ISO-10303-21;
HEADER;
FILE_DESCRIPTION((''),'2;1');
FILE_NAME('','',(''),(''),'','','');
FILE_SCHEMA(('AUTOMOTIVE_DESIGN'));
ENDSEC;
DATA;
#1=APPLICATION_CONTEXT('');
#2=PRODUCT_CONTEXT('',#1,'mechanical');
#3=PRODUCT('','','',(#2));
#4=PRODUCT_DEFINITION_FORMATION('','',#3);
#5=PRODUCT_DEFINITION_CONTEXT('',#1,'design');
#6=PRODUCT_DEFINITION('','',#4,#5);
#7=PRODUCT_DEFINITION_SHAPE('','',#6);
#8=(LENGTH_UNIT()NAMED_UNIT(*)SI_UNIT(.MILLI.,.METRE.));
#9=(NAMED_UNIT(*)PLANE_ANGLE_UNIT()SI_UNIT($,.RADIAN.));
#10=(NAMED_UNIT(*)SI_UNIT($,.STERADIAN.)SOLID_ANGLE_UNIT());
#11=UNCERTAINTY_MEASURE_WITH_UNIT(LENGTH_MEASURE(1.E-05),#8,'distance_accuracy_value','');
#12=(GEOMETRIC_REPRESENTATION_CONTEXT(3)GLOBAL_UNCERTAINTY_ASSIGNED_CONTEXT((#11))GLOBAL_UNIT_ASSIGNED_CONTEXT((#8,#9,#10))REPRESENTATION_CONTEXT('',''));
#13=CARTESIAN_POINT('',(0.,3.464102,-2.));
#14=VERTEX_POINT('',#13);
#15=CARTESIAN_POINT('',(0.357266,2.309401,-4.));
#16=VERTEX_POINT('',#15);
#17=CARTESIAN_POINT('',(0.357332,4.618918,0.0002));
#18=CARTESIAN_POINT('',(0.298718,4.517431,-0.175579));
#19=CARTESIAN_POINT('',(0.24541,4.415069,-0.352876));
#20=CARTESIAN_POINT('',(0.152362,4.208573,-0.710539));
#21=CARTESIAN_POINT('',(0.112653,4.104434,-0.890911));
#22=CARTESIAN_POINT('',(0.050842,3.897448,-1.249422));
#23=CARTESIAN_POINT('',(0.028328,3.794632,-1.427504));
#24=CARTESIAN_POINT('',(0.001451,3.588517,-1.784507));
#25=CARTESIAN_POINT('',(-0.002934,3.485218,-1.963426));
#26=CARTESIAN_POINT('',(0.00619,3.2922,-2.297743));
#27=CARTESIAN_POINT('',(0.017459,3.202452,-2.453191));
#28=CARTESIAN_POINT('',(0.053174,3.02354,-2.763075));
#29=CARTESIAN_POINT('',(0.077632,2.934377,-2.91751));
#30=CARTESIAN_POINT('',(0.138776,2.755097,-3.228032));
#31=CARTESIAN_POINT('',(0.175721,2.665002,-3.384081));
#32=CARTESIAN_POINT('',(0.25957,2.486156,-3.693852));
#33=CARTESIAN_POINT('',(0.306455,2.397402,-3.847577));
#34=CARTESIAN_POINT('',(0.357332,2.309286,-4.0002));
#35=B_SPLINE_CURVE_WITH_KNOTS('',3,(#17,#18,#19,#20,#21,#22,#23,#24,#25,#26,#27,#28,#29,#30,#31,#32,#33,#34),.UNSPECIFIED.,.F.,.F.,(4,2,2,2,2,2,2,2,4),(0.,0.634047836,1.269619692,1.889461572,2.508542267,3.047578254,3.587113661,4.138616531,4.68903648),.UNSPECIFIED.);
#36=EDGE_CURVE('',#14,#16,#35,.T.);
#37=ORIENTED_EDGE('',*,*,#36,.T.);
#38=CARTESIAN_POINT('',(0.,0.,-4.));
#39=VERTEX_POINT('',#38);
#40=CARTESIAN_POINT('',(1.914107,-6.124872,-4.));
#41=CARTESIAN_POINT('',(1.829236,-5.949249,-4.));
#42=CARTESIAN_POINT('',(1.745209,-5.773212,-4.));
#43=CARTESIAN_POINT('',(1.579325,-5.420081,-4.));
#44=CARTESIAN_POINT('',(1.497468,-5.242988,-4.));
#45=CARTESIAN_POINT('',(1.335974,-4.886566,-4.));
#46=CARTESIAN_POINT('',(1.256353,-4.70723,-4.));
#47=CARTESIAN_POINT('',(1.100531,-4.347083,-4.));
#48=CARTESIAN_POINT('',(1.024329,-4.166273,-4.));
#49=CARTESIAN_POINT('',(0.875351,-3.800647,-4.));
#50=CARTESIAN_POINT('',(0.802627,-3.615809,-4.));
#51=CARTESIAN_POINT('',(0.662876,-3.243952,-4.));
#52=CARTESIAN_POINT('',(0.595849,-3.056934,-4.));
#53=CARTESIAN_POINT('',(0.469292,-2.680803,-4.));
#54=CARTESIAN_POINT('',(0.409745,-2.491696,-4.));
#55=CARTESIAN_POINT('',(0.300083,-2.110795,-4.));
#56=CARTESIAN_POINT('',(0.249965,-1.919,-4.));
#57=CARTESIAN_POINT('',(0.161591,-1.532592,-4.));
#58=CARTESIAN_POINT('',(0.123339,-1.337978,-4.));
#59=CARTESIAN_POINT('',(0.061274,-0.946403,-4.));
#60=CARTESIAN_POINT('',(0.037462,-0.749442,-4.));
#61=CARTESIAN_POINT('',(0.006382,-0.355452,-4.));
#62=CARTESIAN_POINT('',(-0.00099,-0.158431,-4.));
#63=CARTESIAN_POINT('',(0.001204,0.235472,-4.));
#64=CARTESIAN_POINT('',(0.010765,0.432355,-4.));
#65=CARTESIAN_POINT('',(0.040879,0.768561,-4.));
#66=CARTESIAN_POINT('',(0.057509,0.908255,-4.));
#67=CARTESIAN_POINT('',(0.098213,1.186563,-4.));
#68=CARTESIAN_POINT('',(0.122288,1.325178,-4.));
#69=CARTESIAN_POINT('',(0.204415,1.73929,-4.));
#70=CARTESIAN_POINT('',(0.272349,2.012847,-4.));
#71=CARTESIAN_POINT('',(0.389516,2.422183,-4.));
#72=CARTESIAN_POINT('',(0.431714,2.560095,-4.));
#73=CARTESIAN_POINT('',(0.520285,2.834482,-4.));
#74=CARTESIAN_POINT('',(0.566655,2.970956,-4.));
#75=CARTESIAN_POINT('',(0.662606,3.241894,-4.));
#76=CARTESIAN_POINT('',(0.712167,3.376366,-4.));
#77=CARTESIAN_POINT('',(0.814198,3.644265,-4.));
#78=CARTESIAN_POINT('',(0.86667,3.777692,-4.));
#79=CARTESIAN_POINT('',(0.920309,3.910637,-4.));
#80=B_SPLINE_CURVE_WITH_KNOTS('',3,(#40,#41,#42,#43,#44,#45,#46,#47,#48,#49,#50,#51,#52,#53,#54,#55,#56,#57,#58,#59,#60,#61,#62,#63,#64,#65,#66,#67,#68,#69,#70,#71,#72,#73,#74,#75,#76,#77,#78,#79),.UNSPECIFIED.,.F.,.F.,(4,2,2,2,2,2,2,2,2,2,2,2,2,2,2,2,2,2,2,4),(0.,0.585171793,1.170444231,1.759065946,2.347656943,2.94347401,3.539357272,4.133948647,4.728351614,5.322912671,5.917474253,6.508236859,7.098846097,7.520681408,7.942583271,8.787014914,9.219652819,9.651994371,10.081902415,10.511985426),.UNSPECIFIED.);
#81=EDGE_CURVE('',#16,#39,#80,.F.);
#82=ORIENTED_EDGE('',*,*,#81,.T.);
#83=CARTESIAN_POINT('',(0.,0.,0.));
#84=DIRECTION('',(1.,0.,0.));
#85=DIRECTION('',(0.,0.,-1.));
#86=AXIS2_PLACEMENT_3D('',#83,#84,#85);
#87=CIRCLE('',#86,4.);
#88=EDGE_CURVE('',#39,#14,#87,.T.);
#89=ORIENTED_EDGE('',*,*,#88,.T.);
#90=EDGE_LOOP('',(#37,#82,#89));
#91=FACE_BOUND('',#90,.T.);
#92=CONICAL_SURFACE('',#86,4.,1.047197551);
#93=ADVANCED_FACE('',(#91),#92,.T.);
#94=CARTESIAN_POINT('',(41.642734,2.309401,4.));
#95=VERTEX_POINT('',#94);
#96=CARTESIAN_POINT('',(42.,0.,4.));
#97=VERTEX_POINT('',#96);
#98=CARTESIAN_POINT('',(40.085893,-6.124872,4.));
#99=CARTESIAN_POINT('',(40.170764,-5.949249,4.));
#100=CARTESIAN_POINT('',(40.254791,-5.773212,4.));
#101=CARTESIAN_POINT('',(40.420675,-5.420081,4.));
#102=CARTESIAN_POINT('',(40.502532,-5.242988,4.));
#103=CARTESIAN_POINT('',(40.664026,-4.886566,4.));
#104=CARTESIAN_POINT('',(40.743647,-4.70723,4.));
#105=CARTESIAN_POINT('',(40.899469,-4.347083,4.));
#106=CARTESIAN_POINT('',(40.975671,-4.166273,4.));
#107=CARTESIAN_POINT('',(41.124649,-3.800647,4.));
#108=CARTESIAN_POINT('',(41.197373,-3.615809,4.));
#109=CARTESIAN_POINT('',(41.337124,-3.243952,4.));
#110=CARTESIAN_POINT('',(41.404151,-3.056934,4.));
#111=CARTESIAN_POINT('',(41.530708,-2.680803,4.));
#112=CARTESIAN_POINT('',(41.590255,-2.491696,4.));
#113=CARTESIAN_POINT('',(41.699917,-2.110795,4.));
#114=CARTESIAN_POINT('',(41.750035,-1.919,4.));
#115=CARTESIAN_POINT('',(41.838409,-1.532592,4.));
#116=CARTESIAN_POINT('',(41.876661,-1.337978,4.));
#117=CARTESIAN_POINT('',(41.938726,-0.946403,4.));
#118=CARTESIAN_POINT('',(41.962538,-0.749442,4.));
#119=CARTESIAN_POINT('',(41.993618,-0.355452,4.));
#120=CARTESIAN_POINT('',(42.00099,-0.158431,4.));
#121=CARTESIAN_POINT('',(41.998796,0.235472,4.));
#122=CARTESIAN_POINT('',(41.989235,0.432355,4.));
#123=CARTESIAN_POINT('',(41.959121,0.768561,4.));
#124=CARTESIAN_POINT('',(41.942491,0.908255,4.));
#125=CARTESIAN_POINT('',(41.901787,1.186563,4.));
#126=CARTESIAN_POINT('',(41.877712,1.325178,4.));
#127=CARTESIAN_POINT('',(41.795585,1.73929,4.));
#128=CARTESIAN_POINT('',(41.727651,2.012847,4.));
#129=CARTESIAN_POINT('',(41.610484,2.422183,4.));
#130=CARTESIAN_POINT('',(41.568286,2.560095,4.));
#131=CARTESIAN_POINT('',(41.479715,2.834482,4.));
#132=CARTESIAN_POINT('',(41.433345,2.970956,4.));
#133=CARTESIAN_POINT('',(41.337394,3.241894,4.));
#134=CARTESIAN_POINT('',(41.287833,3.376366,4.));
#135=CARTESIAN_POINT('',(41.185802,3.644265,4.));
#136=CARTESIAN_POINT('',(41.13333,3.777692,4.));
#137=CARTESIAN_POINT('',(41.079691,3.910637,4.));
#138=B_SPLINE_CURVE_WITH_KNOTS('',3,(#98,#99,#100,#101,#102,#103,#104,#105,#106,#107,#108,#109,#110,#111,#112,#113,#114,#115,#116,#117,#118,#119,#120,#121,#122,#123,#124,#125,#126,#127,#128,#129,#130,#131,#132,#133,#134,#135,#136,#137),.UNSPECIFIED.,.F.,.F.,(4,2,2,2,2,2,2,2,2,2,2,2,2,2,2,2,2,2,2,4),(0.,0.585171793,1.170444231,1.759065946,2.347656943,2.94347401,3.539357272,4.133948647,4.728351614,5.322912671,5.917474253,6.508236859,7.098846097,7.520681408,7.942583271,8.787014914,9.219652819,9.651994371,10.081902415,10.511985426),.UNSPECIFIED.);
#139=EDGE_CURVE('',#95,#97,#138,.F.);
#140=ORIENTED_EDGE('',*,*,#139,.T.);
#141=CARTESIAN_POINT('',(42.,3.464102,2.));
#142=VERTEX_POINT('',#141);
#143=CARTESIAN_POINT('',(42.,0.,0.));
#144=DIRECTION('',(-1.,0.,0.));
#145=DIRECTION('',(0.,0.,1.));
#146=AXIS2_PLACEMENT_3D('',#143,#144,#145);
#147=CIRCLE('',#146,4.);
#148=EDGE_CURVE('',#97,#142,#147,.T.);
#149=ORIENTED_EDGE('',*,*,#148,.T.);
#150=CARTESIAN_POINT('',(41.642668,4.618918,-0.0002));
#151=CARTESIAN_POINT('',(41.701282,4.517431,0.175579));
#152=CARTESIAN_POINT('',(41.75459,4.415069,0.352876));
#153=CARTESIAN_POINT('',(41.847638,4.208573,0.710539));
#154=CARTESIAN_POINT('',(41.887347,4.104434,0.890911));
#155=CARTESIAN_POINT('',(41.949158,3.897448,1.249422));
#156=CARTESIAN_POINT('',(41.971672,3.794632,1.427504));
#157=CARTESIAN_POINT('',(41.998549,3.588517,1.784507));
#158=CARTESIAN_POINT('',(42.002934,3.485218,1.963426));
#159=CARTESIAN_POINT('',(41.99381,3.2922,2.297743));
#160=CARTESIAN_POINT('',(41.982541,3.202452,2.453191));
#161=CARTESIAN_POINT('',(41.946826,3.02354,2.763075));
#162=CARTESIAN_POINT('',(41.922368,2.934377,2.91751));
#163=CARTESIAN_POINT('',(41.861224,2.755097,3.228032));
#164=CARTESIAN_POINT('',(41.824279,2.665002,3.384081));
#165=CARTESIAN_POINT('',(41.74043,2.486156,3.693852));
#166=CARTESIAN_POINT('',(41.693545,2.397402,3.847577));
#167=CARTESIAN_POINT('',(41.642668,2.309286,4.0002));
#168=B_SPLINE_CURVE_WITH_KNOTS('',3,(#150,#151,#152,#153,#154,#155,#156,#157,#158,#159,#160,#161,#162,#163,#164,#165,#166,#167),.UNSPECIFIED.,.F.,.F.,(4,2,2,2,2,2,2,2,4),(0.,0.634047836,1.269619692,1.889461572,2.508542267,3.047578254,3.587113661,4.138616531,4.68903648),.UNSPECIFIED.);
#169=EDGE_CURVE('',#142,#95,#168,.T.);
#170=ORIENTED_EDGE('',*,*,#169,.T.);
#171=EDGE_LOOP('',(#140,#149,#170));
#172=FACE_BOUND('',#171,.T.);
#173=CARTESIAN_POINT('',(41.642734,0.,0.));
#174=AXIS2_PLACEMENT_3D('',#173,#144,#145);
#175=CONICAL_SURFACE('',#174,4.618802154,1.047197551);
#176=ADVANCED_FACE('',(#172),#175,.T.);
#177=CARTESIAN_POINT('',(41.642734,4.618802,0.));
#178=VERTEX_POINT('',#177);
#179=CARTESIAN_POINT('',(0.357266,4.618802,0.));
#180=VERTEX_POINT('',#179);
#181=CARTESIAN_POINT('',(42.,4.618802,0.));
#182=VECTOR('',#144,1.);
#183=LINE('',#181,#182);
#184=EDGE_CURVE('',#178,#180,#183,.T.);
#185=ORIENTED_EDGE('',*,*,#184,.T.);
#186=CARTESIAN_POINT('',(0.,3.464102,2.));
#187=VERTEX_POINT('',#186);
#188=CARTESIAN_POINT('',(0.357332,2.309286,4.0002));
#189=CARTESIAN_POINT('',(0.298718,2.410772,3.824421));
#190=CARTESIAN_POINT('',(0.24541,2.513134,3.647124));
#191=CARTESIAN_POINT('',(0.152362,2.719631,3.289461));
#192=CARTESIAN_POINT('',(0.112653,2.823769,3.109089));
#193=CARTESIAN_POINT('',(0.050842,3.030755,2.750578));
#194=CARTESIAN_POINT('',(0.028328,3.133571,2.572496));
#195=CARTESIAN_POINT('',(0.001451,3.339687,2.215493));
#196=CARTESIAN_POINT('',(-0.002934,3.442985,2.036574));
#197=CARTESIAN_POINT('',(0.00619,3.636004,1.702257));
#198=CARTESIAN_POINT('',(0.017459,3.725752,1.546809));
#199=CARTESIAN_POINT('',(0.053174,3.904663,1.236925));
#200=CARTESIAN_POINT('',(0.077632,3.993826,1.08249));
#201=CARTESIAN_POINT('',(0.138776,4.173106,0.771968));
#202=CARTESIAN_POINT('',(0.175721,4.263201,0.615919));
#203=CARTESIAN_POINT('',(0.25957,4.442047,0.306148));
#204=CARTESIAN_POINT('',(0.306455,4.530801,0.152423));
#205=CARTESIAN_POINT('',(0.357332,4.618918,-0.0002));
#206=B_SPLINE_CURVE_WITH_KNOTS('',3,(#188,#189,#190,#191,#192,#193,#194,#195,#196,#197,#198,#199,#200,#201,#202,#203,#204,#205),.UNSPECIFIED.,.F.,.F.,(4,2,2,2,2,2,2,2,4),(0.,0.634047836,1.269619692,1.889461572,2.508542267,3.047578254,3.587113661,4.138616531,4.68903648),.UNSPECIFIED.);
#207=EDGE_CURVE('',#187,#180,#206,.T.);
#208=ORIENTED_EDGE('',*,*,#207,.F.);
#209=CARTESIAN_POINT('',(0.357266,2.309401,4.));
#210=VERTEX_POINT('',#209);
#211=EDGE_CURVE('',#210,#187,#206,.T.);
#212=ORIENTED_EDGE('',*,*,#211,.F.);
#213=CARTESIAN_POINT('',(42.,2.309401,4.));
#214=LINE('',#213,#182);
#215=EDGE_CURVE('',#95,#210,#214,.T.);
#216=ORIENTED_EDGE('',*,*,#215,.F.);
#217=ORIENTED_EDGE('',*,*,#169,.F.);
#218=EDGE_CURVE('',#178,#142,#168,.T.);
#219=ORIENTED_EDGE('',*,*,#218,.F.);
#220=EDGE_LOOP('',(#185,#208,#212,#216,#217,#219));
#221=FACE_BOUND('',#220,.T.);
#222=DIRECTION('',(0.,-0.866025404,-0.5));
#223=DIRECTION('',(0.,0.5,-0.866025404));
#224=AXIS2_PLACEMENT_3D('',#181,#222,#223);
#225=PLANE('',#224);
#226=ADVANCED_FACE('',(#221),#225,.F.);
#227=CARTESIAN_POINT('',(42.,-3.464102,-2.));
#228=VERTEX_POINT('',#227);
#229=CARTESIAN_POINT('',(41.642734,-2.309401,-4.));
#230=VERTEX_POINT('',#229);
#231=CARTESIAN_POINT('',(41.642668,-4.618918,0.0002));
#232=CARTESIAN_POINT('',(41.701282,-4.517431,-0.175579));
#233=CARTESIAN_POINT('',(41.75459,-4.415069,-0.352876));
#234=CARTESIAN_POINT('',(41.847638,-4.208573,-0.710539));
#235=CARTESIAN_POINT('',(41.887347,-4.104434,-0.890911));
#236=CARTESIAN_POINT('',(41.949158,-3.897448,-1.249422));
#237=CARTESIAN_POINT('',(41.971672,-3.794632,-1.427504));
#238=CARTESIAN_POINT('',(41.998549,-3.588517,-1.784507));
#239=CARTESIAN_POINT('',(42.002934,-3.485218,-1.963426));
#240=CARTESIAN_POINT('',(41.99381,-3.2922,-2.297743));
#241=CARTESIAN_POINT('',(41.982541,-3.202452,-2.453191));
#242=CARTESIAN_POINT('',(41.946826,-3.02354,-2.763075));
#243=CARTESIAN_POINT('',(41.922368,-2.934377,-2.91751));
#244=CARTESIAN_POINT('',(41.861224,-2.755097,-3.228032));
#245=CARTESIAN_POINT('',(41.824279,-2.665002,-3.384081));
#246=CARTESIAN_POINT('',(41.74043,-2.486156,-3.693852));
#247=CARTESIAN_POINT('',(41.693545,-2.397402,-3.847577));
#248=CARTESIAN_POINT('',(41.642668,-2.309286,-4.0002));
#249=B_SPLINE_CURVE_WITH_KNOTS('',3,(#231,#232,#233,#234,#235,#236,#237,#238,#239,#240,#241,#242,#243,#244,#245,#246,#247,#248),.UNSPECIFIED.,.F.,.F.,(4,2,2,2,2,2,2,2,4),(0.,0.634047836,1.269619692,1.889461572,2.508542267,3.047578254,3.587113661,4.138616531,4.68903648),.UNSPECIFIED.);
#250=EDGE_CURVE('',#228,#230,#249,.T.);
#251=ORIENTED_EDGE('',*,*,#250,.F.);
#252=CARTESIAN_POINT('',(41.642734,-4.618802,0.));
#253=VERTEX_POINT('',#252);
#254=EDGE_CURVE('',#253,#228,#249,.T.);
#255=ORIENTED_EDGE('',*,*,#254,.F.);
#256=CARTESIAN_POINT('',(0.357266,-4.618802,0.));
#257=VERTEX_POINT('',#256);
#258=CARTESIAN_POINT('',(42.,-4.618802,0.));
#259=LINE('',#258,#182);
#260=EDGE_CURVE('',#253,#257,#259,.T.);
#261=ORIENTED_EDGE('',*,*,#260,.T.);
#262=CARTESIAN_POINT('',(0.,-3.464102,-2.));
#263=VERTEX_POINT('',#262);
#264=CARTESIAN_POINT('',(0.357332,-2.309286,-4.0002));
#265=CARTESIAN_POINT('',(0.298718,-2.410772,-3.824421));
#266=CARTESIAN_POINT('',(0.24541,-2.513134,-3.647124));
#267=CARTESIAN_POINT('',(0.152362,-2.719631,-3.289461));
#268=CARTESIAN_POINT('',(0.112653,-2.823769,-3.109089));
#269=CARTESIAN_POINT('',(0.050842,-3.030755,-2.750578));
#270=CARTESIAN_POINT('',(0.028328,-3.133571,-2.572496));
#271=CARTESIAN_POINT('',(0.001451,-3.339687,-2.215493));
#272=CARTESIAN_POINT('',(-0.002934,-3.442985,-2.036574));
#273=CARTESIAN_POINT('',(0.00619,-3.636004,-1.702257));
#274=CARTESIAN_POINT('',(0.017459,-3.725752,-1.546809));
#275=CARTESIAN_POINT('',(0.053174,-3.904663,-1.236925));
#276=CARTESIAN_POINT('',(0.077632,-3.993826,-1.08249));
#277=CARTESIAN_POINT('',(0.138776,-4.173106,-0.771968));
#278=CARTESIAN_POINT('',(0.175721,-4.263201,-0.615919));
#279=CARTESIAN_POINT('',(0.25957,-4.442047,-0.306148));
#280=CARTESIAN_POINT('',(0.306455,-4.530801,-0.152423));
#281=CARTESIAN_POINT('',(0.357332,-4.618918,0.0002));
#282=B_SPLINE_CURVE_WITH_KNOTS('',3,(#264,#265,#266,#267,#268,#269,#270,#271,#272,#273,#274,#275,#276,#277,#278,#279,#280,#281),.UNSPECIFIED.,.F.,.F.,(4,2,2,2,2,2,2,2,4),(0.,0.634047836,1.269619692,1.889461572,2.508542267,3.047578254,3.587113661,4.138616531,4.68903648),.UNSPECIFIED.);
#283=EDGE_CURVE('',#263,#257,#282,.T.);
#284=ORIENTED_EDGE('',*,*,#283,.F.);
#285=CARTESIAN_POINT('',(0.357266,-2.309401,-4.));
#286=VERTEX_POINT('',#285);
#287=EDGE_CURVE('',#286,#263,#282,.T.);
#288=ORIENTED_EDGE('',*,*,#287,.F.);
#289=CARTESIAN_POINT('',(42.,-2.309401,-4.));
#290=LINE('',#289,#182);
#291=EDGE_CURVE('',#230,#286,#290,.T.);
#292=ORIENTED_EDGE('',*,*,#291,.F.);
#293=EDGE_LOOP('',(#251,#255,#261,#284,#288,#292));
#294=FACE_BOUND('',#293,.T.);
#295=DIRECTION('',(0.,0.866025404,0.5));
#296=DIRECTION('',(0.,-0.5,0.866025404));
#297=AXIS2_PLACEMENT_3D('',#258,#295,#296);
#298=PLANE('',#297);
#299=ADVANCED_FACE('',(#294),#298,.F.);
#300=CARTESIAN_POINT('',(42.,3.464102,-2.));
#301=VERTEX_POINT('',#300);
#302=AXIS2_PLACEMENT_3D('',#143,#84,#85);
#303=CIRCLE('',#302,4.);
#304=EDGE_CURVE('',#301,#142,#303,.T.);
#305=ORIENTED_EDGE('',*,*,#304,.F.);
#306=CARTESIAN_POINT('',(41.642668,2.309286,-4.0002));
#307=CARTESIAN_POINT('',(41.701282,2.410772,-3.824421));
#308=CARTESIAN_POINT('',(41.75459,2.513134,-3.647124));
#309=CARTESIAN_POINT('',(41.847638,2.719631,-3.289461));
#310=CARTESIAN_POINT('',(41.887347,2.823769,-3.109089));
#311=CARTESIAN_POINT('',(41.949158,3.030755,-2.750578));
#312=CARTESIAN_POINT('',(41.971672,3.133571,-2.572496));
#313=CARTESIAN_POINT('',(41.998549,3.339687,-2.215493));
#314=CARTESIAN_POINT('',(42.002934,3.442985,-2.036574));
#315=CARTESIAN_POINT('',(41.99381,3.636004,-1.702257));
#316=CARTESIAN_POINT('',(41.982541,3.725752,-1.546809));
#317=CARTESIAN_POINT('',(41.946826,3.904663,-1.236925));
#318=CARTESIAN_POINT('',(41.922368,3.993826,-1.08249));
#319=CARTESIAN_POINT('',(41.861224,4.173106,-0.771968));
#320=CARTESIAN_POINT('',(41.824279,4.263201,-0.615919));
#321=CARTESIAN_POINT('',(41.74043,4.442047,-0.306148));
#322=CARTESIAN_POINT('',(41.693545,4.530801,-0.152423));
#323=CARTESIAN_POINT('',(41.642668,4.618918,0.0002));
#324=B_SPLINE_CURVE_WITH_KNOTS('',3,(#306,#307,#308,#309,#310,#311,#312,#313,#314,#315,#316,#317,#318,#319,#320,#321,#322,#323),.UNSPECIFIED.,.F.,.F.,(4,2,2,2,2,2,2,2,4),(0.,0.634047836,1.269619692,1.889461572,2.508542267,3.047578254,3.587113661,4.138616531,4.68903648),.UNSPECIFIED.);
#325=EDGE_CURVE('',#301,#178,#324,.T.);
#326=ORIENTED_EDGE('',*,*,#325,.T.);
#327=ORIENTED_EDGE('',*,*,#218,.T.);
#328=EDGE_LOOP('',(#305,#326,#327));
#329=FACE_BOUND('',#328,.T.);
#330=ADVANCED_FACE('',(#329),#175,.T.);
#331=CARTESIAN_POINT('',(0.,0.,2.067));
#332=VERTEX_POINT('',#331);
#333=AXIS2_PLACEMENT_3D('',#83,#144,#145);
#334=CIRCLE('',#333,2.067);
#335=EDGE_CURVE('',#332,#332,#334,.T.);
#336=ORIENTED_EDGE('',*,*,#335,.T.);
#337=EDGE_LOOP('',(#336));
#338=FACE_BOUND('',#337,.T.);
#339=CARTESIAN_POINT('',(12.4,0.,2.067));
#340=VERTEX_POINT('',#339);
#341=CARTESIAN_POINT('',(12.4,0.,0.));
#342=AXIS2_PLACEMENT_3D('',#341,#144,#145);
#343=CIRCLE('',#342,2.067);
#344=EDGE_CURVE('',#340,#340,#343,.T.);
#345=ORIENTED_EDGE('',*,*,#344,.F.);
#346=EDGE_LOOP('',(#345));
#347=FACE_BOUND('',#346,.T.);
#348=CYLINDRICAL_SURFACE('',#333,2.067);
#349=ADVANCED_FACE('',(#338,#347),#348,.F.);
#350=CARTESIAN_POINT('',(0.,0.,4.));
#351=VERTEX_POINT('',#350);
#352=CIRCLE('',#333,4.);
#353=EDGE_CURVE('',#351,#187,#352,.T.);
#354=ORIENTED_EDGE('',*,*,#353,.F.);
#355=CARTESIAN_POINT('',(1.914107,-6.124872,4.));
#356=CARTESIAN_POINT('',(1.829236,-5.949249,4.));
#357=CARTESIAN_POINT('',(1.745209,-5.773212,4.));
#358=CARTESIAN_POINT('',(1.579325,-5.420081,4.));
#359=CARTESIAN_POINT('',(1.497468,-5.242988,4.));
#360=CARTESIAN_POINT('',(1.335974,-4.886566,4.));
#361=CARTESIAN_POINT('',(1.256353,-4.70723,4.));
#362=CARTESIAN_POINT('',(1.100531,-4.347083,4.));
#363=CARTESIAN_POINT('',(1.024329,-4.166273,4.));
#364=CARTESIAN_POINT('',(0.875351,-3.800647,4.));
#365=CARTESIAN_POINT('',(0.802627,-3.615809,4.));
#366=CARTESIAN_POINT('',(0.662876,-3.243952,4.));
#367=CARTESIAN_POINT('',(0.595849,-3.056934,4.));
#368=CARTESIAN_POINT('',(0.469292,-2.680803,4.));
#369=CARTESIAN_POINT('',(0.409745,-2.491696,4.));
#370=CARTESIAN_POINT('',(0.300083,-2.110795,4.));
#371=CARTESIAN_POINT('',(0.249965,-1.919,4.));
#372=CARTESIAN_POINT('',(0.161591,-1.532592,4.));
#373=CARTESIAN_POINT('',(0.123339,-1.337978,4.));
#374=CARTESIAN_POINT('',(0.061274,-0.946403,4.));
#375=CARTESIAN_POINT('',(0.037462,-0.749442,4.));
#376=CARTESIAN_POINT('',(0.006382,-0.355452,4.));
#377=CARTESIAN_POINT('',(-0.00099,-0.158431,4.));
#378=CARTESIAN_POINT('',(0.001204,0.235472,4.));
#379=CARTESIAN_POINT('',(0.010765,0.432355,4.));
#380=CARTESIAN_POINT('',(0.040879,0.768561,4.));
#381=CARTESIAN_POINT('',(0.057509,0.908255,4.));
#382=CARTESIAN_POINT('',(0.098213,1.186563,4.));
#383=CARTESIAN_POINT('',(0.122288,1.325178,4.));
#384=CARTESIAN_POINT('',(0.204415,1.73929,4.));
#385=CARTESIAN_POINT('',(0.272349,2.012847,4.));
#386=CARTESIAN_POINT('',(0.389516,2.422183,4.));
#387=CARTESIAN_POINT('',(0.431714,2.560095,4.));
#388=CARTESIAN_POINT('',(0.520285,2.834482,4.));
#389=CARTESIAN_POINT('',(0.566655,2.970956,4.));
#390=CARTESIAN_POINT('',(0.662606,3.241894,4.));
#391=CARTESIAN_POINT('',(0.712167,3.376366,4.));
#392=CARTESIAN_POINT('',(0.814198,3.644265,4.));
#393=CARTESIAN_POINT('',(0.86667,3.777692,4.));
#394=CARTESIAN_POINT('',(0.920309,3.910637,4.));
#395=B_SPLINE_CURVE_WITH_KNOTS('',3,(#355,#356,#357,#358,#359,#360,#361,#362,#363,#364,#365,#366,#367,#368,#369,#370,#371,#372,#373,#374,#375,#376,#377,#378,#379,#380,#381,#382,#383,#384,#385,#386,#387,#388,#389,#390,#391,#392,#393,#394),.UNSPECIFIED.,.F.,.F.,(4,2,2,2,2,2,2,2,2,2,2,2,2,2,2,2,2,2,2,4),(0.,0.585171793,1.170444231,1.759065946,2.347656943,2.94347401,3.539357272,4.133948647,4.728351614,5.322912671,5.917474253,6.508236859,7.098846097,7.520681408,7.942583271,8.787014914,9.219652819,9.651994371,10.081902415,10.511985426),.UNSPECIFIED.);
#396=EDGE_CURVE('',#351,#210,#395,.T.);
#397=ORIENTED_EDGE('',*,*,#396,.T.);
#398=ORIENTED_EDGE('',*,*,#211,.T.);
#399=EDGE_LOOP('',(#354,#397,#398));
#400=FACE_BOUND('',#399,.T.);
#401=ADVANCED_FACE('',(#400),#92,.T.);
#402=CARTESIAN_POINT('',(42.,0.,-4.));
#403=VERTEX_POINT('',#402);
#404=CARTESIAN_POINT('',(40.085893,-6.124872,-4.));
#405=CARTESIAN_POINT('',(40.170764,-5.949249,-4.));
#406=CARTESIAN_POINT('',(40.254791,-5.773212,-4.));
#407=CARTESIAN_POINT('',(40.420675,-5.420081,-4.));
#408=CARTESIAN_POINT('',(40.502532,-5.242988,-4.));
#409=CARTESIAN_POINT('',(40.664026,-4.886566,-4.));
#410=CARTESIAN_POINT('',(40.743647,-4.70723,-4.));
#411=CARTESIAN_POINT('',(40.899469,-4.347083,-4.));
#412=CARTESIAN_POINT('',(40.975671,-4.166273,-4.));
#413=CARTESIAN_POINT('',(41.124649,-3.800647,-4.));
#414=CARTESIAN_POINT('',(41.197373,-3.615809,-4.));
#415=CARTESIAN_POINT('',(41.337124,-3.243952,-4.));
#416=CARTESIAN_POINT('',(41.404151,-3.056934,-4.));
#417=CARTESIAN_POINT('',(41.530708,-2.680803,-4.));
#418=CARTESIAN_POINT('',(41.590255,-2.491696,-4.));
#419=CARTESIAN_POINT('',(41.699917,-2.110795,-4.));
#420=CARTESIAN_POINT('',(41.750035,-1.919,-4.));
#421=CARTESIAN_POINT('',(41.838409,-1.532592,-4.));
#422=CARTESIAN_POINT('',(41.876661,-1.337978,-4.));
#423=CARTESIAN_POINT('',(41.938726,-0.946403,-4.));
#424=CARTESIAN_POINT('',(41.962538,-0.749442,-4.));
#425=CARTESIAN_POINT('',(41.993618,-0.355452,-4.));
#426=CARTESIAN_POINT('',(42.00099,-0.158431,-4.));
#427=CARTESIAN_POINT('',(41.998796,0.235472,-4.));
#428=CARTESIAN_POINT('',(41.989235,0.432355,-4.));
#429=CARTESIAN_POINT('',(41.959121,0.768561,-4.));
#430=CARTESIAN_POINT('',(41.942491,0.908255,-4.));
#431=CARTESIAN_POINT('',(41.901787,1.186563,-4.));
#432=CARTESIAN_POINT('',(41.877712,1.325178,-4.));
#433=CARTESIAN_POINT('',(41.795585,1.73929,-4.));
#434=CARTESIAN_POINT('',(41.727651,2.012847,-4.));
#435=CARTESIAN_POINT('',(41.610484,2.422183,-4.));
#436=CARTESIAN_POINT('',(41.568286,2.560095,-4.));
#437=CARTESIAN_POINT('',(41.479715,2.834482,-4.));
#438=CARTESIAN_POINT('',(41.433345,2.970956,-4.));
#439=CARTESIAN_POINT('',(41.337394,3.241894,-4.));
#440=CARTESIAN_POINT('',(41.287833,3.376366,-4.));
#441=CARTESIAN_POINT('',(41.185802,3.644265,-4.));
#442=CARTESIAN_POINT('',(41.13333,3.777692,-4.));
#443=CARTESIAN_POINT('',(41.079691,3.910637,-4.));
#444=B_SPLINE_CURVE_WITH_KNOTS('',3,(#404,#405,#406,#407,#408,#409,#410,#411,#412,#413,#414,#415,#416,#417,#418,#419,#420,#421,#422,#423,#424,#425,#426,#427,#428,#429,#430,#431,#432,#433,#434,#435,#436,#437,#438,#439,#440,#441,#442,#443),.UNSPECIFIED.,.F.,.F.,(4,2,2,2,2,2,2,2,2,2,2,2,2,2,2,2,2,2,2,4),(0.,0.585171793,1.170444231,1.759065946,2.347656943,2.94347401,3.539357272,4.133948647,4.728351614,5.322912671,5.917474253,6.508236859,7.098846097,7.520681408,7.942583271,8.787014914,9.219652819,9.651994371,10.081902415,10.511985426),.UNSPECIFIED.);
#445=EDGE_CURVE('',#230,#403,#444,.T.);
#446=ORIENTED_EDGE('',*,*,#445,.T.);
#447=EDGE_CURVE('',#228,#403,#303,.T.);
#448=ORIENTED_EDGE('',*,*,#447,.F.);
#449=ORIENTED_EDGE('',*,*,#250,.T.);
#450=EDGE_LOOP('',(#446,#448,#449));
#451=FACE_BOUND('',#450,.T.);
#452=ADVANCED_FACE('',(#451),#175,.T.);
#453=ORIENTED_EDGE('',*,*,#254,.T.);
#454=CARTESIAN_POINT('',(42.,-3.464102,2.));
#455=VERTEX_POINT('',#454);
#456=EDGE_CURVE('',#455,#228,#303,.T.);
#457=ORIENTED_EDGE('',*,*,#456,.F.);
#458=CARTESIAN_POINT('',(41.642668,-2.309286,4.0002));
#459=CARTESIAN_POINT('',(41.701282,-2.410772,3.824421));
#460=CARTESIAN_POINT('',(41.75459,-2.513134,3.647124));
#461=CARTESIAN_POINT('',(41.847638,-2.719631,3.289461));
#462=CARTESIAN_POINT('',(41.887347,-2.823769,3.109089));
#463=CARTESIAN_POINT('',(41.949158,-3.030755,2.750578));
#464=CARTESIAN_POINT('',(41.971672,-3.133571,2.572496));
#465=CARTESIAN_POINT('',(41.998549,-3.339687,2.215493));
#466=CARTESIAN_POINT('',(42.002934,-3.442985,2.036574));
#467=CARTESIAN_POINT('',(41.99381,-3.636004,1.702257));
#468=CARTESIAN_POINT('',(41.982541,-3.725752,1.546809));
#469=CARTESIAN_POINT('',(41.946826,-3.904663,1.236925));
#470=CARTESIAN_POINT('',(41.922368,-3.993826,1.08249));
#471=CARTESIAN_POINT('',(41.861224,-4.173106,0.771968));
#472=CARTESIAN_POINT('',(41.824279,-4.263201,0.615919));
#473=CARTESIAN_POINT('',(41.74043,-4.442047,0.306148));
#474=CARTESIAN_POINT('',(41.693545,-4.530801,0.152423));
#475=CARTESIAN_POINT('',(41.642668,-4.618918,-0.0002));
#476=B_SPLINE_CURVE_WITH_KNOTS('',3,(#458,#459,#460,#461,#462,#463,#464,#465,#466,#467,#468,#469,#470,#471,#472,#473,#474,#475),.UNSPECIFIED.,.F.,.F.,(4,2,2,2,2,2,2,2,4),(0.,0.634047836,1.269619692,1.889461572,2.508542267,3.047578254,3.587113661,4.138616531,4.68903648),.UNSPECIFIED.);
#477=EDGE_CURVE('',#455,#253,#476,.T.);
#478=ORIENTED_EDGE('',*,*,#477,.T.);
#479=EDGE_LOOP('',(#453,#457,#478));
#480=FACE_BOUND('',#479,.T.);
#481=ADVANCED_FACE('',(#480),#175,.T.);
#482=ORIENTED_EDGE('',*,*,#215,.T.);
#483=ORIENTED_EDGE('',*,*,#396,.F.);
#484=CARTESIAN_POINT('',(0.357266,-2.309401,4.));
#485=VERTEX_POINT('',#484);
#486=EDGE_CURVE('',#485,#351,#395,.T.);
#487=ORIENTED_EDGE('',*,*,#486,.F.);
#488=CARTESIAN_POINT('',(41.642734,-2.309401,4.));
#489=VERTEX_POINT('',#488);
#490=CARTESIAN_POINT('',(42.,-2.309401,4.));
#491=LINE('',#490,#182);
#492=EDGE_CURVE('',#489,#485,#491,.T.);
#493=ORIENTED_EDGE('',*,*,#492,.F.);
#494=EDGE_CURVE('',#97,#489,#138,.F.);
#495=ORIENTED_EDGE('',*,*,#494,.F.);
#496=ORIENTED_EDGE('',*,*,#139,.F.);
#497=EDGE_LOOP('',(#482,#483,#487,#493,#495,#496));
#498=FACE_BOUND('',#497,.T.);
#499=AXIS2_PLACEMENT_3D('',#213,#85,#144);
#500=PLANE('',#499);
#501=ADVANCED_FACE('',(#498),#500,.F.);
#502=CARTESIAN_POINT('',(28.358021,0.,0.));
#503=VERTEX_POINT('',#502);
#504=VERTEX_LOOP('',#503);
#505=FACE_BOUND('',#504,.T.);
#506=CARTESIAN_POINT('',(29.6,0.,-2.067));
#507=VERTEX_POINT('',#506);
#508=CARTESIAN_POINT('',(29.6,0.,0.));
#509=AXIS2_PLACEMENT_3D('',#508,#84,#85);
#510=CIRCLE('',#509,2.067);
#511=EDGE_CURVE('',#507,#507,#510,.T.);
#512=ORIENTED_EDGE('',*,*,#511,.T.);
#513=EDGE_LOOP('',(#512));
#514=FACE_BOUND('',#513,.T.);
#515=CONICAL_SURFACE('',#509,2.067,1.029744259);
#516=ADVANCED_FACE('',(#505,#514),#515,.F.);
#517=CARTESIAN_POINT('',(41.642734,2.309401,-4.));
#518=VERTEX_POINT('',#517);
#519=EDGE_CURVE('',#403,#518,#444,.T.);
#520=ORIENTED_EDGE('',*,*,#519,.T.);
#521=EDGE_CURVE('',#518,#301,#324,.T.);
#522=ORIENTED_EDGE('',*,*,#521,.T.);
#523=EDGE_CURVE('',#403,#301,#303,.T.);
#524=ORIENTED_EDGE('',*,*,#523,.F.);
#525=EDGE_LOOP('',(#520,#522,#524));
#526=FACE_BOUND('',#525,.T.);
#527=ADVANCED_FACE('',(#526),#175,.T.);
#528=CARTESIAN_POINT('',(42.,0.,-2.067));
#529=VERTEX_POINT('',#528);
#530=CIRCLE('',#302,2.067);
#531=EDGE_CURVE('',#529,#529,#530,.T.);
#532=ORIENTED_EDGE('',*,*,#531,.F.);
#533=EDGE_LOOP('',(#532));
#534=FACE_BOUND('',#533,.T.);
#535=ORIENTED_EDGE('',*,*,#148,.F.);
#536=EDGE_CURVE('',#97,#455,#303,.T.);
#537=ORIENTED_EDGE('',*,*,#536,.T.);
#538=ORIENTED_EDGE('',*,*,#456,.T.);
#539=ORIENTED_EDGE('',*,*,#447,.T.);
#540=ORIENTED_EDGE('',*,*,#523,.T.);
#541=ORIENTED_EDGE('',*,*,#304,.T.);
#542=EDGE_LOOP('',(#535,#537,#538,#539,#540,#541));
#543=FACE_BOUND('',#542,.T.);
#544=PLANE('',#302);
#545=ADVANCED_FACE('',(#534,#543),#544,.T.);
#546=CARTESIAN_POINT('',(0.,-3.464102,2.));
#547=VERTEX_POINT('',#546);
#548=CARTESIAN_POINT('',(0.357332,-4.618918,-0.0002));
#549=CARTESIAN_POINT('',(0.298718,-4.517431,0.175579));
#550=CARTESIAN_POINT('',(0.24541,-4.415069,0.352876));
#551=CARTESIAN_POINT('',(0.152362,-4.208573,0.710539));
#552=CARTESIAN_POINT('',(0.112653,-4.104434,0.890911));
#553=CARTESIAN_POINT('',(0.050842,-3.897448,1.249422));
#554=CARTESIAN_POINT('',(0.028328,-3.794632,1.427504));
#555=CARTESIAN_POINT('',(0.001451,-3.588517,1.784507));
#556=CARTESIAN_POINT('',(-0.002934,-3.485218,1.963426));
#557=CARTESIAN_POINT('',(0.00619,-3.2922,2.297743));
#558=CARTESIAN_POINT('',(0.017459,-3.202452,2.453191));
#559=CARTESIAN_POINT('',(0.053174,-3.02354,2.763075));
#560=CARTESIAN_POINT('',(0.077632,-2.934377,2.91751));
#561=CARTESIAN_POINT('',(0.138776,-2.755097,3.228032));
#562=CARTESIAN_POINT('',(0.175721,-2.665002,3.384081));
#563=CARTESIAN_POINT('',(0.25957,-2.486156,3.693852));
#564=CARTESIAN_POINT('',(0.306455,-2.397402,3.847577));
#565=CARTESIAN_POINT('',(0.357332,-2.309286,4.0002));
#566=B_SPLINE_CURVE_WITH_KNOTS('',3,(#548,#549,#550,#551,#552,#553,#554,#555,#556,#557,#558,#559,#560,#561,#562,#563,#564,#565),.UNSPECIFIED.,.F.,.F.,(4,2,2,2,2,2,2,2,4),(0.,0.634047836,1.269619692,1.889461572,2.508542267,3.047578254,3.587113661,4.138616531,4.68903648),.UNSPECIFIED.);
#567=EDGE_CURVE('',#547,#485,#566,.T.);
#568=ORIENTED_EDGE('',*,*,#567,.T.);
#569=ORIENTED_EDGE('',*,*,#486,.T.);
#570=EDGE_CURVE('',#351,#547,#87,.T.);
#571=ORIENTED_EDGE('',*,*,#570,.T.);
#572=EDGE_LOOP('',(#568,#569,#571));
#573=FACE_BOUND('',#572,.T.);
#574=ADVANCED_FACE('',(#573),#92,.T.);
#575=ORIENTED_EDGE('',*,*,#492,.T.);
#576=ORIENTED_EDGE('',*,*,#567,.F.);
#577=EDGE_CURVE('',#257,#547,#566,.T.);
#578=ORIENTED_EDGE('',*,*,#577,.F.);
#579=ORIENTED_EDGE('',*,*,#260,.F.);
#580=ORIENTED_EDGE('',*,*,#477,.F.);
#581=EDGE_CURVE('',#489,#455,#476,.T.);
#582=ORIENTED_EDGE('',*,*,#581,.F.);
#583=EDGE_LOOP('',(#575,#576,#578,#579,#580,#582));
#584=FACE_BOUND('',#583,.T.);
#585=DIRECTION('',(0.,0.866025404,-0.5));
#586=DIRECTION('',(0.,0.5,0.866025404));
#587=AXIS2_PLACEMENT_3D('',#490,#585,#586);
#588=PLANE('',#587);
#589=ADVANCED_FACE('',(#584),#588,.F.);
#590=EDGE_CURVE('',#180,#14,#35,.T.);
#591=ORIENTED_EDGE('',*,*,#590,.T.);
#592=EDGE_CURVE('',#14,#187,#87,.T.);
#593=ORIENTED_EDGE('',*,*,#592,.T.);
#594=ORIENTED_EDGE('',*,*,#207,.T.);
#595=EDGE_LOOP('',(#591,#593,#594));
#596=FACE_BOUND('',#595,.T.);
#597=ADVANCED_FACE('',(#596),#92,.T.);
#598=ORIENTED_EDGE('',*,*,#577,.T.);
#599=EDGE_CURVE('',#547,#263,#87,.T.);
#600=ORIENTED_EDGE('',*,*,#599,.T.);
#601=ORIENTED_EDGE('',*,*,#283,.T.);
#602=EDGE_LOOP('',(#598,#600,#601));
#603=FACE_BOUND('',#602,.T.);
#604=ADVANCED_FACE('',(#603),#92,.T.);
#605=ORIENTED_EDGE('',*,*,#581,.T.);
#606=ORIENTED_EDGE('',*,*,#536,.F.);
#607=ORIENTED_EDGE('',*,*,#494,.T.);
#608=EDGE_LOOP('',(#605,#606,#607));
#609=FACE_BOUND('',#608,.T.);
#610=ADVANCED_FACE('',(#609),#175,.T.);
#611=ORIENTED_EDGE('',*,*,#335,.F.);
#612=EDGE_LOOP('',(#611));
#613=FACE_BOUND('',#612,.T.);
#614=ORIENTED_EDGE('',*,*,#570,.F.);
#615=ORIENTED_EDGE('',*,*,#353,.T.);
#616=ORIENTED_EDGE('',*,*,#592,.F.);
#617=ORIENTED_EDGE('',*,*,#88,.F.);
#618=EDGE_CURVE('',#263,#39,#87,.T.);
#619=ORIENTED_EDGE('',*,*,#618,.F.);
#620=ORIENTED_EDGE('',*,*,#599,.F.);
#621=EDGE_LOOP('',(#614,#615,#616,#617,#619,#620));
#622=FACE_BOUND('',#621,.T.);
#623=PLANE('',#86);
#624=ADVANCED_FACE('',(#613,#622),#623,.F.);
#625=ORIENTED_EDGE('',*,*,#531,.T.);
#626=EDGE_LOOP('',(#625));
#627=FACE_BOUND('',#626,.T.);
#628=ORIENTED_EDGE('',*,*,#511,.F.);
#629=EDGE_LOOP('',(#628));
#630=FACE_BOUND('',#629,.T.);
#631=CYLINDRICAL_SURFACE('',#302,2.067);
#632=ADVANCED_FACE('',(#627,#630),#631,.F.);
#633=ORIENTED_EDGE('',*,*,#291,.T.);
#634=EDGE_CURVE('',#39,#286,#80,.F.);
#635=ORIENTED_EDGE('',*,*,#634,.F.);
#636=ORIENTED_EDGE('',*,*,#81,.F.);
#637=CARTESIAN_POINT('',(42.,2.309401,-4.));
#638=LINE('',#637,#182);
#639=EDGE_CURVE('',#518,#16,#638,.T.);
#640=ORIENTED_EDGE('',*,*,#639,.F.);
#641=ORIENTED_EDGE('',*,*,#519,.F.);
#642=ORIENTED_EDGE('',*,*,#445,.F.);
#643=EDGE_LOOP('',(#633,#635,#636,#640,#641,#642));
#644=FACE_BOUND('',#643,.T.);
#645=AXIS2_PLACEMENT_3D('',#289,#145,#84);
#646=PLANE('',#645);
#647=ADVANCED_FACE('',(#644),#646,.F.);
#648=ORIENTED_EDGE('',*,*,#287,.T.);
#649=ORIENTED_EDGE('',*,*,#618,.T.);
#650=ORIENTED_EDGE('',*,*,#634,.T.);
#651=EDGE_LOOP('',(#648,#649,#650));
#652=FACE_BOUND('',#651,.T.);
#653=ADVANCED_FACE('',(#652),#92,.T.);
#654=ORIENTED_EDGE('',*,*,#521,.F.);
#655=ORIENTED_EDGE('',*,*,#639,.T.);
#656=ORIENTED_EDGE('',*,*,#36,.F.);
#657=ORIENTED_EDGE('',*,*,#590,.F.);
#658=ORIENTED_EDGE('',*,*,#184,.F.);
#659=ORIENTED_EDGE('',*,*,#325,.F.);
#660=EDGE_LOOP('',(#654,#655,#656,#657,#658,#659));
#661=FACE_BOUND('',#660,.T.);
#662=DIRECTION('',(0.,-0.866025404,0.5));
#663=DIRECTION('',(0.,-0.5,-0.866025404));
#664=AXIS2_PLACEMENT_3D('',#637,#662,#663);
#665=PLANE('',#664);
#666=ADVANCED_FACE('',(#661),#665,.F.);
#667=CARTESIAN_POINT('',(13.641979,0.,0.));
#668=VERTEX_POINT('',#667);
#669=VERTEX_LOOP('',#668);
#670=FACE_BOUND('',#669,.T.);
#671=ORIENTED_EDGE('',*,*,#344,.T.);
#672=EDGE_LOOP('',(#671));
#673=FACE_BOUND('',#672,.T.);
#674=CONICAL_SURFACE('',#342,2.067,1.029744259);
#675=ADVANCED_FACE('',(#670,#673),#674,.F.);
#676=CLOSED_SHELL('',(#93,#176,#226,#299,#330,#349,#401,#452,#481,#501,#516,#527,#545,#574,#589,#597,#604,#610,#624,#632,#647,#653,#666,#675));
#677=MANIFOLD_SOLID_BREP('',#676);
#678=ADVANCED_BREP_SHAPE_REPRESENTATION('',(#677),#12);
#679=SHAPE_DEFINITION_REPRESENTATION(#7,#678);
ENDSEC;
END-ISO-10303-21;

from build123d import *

# Parameters (mm, degrees)
BOSS_EXTRUDE1_DEPTH = 42
TAP1_D              = 4.134
TAP1_DEPTH          = 12.4
TAP1_TIP            = 1.2419789
TAP2_D              = 4.134
TAP2_DEPTH          = 12.4
TAP2_TIP            = 1.2419789


with BuildPart() as part:
    # Sketch1 → Boss-Extrude1 (new body)
    with BuildSketch(Plane(origin=(0, 0, 0), x_dir=(0, 0, -1), z_dir=(1, 0, 0))):
        Polygon((0, -4.618802154), (4, -2.309401077), (4, 2.309401077), (0, 4.618802154), (-4, 2.309401077), (-4, -2.309401077), align=None)
    extrude(amount=BOSS_EXTRUDE1_DEPTH)

    # Sketch2 → Cut-Revolve1 (revolve, cut)
    with BuildSketch(Plane.XY):
        Polygon((0, 4.618802154), (0.35726559, 4.618802154), (0, 4), align=None)
        Polygon((41.64273441, 4.618802154), (42, 4), (42, 4.618802154), align=None)
    revolve(axis=Axis((0, 0, 0), (1, 0, 0)), mode=Mode.SUBTRACT)

    # Tap1
    with Locations(Plane.ZY):
        with Locations((0, 0)):
            Hole(TAP1_D / 2, depth=TAP1_DEPTH)
            with Locations((0, 0, -(TAP1_DEPTH + TAP1_TIP / 2))):  # 118° drill point
                Cone(0, TAP1_D / 2, TAP1_TIP, mode=Mode.SUBTRACT)

    # Tap2
    with Locations(Plane(origin=(42, 0, 0), x_dir=(0, 0, -1), z_dir=(1, 0, 0))):
        with Locations((0, 0)):
            Hole(TAP2_D / 2, depth=TAP2_DEPTH)
            with Locations((0, 0, -(TAP2_DEPTH + TAP2_TIP / 2))):  # 118° drill point
                Cone(0, TAP2_D / 2, TAP2_TIP, mode=Mode.SUBTRACT)


solid = part.part
